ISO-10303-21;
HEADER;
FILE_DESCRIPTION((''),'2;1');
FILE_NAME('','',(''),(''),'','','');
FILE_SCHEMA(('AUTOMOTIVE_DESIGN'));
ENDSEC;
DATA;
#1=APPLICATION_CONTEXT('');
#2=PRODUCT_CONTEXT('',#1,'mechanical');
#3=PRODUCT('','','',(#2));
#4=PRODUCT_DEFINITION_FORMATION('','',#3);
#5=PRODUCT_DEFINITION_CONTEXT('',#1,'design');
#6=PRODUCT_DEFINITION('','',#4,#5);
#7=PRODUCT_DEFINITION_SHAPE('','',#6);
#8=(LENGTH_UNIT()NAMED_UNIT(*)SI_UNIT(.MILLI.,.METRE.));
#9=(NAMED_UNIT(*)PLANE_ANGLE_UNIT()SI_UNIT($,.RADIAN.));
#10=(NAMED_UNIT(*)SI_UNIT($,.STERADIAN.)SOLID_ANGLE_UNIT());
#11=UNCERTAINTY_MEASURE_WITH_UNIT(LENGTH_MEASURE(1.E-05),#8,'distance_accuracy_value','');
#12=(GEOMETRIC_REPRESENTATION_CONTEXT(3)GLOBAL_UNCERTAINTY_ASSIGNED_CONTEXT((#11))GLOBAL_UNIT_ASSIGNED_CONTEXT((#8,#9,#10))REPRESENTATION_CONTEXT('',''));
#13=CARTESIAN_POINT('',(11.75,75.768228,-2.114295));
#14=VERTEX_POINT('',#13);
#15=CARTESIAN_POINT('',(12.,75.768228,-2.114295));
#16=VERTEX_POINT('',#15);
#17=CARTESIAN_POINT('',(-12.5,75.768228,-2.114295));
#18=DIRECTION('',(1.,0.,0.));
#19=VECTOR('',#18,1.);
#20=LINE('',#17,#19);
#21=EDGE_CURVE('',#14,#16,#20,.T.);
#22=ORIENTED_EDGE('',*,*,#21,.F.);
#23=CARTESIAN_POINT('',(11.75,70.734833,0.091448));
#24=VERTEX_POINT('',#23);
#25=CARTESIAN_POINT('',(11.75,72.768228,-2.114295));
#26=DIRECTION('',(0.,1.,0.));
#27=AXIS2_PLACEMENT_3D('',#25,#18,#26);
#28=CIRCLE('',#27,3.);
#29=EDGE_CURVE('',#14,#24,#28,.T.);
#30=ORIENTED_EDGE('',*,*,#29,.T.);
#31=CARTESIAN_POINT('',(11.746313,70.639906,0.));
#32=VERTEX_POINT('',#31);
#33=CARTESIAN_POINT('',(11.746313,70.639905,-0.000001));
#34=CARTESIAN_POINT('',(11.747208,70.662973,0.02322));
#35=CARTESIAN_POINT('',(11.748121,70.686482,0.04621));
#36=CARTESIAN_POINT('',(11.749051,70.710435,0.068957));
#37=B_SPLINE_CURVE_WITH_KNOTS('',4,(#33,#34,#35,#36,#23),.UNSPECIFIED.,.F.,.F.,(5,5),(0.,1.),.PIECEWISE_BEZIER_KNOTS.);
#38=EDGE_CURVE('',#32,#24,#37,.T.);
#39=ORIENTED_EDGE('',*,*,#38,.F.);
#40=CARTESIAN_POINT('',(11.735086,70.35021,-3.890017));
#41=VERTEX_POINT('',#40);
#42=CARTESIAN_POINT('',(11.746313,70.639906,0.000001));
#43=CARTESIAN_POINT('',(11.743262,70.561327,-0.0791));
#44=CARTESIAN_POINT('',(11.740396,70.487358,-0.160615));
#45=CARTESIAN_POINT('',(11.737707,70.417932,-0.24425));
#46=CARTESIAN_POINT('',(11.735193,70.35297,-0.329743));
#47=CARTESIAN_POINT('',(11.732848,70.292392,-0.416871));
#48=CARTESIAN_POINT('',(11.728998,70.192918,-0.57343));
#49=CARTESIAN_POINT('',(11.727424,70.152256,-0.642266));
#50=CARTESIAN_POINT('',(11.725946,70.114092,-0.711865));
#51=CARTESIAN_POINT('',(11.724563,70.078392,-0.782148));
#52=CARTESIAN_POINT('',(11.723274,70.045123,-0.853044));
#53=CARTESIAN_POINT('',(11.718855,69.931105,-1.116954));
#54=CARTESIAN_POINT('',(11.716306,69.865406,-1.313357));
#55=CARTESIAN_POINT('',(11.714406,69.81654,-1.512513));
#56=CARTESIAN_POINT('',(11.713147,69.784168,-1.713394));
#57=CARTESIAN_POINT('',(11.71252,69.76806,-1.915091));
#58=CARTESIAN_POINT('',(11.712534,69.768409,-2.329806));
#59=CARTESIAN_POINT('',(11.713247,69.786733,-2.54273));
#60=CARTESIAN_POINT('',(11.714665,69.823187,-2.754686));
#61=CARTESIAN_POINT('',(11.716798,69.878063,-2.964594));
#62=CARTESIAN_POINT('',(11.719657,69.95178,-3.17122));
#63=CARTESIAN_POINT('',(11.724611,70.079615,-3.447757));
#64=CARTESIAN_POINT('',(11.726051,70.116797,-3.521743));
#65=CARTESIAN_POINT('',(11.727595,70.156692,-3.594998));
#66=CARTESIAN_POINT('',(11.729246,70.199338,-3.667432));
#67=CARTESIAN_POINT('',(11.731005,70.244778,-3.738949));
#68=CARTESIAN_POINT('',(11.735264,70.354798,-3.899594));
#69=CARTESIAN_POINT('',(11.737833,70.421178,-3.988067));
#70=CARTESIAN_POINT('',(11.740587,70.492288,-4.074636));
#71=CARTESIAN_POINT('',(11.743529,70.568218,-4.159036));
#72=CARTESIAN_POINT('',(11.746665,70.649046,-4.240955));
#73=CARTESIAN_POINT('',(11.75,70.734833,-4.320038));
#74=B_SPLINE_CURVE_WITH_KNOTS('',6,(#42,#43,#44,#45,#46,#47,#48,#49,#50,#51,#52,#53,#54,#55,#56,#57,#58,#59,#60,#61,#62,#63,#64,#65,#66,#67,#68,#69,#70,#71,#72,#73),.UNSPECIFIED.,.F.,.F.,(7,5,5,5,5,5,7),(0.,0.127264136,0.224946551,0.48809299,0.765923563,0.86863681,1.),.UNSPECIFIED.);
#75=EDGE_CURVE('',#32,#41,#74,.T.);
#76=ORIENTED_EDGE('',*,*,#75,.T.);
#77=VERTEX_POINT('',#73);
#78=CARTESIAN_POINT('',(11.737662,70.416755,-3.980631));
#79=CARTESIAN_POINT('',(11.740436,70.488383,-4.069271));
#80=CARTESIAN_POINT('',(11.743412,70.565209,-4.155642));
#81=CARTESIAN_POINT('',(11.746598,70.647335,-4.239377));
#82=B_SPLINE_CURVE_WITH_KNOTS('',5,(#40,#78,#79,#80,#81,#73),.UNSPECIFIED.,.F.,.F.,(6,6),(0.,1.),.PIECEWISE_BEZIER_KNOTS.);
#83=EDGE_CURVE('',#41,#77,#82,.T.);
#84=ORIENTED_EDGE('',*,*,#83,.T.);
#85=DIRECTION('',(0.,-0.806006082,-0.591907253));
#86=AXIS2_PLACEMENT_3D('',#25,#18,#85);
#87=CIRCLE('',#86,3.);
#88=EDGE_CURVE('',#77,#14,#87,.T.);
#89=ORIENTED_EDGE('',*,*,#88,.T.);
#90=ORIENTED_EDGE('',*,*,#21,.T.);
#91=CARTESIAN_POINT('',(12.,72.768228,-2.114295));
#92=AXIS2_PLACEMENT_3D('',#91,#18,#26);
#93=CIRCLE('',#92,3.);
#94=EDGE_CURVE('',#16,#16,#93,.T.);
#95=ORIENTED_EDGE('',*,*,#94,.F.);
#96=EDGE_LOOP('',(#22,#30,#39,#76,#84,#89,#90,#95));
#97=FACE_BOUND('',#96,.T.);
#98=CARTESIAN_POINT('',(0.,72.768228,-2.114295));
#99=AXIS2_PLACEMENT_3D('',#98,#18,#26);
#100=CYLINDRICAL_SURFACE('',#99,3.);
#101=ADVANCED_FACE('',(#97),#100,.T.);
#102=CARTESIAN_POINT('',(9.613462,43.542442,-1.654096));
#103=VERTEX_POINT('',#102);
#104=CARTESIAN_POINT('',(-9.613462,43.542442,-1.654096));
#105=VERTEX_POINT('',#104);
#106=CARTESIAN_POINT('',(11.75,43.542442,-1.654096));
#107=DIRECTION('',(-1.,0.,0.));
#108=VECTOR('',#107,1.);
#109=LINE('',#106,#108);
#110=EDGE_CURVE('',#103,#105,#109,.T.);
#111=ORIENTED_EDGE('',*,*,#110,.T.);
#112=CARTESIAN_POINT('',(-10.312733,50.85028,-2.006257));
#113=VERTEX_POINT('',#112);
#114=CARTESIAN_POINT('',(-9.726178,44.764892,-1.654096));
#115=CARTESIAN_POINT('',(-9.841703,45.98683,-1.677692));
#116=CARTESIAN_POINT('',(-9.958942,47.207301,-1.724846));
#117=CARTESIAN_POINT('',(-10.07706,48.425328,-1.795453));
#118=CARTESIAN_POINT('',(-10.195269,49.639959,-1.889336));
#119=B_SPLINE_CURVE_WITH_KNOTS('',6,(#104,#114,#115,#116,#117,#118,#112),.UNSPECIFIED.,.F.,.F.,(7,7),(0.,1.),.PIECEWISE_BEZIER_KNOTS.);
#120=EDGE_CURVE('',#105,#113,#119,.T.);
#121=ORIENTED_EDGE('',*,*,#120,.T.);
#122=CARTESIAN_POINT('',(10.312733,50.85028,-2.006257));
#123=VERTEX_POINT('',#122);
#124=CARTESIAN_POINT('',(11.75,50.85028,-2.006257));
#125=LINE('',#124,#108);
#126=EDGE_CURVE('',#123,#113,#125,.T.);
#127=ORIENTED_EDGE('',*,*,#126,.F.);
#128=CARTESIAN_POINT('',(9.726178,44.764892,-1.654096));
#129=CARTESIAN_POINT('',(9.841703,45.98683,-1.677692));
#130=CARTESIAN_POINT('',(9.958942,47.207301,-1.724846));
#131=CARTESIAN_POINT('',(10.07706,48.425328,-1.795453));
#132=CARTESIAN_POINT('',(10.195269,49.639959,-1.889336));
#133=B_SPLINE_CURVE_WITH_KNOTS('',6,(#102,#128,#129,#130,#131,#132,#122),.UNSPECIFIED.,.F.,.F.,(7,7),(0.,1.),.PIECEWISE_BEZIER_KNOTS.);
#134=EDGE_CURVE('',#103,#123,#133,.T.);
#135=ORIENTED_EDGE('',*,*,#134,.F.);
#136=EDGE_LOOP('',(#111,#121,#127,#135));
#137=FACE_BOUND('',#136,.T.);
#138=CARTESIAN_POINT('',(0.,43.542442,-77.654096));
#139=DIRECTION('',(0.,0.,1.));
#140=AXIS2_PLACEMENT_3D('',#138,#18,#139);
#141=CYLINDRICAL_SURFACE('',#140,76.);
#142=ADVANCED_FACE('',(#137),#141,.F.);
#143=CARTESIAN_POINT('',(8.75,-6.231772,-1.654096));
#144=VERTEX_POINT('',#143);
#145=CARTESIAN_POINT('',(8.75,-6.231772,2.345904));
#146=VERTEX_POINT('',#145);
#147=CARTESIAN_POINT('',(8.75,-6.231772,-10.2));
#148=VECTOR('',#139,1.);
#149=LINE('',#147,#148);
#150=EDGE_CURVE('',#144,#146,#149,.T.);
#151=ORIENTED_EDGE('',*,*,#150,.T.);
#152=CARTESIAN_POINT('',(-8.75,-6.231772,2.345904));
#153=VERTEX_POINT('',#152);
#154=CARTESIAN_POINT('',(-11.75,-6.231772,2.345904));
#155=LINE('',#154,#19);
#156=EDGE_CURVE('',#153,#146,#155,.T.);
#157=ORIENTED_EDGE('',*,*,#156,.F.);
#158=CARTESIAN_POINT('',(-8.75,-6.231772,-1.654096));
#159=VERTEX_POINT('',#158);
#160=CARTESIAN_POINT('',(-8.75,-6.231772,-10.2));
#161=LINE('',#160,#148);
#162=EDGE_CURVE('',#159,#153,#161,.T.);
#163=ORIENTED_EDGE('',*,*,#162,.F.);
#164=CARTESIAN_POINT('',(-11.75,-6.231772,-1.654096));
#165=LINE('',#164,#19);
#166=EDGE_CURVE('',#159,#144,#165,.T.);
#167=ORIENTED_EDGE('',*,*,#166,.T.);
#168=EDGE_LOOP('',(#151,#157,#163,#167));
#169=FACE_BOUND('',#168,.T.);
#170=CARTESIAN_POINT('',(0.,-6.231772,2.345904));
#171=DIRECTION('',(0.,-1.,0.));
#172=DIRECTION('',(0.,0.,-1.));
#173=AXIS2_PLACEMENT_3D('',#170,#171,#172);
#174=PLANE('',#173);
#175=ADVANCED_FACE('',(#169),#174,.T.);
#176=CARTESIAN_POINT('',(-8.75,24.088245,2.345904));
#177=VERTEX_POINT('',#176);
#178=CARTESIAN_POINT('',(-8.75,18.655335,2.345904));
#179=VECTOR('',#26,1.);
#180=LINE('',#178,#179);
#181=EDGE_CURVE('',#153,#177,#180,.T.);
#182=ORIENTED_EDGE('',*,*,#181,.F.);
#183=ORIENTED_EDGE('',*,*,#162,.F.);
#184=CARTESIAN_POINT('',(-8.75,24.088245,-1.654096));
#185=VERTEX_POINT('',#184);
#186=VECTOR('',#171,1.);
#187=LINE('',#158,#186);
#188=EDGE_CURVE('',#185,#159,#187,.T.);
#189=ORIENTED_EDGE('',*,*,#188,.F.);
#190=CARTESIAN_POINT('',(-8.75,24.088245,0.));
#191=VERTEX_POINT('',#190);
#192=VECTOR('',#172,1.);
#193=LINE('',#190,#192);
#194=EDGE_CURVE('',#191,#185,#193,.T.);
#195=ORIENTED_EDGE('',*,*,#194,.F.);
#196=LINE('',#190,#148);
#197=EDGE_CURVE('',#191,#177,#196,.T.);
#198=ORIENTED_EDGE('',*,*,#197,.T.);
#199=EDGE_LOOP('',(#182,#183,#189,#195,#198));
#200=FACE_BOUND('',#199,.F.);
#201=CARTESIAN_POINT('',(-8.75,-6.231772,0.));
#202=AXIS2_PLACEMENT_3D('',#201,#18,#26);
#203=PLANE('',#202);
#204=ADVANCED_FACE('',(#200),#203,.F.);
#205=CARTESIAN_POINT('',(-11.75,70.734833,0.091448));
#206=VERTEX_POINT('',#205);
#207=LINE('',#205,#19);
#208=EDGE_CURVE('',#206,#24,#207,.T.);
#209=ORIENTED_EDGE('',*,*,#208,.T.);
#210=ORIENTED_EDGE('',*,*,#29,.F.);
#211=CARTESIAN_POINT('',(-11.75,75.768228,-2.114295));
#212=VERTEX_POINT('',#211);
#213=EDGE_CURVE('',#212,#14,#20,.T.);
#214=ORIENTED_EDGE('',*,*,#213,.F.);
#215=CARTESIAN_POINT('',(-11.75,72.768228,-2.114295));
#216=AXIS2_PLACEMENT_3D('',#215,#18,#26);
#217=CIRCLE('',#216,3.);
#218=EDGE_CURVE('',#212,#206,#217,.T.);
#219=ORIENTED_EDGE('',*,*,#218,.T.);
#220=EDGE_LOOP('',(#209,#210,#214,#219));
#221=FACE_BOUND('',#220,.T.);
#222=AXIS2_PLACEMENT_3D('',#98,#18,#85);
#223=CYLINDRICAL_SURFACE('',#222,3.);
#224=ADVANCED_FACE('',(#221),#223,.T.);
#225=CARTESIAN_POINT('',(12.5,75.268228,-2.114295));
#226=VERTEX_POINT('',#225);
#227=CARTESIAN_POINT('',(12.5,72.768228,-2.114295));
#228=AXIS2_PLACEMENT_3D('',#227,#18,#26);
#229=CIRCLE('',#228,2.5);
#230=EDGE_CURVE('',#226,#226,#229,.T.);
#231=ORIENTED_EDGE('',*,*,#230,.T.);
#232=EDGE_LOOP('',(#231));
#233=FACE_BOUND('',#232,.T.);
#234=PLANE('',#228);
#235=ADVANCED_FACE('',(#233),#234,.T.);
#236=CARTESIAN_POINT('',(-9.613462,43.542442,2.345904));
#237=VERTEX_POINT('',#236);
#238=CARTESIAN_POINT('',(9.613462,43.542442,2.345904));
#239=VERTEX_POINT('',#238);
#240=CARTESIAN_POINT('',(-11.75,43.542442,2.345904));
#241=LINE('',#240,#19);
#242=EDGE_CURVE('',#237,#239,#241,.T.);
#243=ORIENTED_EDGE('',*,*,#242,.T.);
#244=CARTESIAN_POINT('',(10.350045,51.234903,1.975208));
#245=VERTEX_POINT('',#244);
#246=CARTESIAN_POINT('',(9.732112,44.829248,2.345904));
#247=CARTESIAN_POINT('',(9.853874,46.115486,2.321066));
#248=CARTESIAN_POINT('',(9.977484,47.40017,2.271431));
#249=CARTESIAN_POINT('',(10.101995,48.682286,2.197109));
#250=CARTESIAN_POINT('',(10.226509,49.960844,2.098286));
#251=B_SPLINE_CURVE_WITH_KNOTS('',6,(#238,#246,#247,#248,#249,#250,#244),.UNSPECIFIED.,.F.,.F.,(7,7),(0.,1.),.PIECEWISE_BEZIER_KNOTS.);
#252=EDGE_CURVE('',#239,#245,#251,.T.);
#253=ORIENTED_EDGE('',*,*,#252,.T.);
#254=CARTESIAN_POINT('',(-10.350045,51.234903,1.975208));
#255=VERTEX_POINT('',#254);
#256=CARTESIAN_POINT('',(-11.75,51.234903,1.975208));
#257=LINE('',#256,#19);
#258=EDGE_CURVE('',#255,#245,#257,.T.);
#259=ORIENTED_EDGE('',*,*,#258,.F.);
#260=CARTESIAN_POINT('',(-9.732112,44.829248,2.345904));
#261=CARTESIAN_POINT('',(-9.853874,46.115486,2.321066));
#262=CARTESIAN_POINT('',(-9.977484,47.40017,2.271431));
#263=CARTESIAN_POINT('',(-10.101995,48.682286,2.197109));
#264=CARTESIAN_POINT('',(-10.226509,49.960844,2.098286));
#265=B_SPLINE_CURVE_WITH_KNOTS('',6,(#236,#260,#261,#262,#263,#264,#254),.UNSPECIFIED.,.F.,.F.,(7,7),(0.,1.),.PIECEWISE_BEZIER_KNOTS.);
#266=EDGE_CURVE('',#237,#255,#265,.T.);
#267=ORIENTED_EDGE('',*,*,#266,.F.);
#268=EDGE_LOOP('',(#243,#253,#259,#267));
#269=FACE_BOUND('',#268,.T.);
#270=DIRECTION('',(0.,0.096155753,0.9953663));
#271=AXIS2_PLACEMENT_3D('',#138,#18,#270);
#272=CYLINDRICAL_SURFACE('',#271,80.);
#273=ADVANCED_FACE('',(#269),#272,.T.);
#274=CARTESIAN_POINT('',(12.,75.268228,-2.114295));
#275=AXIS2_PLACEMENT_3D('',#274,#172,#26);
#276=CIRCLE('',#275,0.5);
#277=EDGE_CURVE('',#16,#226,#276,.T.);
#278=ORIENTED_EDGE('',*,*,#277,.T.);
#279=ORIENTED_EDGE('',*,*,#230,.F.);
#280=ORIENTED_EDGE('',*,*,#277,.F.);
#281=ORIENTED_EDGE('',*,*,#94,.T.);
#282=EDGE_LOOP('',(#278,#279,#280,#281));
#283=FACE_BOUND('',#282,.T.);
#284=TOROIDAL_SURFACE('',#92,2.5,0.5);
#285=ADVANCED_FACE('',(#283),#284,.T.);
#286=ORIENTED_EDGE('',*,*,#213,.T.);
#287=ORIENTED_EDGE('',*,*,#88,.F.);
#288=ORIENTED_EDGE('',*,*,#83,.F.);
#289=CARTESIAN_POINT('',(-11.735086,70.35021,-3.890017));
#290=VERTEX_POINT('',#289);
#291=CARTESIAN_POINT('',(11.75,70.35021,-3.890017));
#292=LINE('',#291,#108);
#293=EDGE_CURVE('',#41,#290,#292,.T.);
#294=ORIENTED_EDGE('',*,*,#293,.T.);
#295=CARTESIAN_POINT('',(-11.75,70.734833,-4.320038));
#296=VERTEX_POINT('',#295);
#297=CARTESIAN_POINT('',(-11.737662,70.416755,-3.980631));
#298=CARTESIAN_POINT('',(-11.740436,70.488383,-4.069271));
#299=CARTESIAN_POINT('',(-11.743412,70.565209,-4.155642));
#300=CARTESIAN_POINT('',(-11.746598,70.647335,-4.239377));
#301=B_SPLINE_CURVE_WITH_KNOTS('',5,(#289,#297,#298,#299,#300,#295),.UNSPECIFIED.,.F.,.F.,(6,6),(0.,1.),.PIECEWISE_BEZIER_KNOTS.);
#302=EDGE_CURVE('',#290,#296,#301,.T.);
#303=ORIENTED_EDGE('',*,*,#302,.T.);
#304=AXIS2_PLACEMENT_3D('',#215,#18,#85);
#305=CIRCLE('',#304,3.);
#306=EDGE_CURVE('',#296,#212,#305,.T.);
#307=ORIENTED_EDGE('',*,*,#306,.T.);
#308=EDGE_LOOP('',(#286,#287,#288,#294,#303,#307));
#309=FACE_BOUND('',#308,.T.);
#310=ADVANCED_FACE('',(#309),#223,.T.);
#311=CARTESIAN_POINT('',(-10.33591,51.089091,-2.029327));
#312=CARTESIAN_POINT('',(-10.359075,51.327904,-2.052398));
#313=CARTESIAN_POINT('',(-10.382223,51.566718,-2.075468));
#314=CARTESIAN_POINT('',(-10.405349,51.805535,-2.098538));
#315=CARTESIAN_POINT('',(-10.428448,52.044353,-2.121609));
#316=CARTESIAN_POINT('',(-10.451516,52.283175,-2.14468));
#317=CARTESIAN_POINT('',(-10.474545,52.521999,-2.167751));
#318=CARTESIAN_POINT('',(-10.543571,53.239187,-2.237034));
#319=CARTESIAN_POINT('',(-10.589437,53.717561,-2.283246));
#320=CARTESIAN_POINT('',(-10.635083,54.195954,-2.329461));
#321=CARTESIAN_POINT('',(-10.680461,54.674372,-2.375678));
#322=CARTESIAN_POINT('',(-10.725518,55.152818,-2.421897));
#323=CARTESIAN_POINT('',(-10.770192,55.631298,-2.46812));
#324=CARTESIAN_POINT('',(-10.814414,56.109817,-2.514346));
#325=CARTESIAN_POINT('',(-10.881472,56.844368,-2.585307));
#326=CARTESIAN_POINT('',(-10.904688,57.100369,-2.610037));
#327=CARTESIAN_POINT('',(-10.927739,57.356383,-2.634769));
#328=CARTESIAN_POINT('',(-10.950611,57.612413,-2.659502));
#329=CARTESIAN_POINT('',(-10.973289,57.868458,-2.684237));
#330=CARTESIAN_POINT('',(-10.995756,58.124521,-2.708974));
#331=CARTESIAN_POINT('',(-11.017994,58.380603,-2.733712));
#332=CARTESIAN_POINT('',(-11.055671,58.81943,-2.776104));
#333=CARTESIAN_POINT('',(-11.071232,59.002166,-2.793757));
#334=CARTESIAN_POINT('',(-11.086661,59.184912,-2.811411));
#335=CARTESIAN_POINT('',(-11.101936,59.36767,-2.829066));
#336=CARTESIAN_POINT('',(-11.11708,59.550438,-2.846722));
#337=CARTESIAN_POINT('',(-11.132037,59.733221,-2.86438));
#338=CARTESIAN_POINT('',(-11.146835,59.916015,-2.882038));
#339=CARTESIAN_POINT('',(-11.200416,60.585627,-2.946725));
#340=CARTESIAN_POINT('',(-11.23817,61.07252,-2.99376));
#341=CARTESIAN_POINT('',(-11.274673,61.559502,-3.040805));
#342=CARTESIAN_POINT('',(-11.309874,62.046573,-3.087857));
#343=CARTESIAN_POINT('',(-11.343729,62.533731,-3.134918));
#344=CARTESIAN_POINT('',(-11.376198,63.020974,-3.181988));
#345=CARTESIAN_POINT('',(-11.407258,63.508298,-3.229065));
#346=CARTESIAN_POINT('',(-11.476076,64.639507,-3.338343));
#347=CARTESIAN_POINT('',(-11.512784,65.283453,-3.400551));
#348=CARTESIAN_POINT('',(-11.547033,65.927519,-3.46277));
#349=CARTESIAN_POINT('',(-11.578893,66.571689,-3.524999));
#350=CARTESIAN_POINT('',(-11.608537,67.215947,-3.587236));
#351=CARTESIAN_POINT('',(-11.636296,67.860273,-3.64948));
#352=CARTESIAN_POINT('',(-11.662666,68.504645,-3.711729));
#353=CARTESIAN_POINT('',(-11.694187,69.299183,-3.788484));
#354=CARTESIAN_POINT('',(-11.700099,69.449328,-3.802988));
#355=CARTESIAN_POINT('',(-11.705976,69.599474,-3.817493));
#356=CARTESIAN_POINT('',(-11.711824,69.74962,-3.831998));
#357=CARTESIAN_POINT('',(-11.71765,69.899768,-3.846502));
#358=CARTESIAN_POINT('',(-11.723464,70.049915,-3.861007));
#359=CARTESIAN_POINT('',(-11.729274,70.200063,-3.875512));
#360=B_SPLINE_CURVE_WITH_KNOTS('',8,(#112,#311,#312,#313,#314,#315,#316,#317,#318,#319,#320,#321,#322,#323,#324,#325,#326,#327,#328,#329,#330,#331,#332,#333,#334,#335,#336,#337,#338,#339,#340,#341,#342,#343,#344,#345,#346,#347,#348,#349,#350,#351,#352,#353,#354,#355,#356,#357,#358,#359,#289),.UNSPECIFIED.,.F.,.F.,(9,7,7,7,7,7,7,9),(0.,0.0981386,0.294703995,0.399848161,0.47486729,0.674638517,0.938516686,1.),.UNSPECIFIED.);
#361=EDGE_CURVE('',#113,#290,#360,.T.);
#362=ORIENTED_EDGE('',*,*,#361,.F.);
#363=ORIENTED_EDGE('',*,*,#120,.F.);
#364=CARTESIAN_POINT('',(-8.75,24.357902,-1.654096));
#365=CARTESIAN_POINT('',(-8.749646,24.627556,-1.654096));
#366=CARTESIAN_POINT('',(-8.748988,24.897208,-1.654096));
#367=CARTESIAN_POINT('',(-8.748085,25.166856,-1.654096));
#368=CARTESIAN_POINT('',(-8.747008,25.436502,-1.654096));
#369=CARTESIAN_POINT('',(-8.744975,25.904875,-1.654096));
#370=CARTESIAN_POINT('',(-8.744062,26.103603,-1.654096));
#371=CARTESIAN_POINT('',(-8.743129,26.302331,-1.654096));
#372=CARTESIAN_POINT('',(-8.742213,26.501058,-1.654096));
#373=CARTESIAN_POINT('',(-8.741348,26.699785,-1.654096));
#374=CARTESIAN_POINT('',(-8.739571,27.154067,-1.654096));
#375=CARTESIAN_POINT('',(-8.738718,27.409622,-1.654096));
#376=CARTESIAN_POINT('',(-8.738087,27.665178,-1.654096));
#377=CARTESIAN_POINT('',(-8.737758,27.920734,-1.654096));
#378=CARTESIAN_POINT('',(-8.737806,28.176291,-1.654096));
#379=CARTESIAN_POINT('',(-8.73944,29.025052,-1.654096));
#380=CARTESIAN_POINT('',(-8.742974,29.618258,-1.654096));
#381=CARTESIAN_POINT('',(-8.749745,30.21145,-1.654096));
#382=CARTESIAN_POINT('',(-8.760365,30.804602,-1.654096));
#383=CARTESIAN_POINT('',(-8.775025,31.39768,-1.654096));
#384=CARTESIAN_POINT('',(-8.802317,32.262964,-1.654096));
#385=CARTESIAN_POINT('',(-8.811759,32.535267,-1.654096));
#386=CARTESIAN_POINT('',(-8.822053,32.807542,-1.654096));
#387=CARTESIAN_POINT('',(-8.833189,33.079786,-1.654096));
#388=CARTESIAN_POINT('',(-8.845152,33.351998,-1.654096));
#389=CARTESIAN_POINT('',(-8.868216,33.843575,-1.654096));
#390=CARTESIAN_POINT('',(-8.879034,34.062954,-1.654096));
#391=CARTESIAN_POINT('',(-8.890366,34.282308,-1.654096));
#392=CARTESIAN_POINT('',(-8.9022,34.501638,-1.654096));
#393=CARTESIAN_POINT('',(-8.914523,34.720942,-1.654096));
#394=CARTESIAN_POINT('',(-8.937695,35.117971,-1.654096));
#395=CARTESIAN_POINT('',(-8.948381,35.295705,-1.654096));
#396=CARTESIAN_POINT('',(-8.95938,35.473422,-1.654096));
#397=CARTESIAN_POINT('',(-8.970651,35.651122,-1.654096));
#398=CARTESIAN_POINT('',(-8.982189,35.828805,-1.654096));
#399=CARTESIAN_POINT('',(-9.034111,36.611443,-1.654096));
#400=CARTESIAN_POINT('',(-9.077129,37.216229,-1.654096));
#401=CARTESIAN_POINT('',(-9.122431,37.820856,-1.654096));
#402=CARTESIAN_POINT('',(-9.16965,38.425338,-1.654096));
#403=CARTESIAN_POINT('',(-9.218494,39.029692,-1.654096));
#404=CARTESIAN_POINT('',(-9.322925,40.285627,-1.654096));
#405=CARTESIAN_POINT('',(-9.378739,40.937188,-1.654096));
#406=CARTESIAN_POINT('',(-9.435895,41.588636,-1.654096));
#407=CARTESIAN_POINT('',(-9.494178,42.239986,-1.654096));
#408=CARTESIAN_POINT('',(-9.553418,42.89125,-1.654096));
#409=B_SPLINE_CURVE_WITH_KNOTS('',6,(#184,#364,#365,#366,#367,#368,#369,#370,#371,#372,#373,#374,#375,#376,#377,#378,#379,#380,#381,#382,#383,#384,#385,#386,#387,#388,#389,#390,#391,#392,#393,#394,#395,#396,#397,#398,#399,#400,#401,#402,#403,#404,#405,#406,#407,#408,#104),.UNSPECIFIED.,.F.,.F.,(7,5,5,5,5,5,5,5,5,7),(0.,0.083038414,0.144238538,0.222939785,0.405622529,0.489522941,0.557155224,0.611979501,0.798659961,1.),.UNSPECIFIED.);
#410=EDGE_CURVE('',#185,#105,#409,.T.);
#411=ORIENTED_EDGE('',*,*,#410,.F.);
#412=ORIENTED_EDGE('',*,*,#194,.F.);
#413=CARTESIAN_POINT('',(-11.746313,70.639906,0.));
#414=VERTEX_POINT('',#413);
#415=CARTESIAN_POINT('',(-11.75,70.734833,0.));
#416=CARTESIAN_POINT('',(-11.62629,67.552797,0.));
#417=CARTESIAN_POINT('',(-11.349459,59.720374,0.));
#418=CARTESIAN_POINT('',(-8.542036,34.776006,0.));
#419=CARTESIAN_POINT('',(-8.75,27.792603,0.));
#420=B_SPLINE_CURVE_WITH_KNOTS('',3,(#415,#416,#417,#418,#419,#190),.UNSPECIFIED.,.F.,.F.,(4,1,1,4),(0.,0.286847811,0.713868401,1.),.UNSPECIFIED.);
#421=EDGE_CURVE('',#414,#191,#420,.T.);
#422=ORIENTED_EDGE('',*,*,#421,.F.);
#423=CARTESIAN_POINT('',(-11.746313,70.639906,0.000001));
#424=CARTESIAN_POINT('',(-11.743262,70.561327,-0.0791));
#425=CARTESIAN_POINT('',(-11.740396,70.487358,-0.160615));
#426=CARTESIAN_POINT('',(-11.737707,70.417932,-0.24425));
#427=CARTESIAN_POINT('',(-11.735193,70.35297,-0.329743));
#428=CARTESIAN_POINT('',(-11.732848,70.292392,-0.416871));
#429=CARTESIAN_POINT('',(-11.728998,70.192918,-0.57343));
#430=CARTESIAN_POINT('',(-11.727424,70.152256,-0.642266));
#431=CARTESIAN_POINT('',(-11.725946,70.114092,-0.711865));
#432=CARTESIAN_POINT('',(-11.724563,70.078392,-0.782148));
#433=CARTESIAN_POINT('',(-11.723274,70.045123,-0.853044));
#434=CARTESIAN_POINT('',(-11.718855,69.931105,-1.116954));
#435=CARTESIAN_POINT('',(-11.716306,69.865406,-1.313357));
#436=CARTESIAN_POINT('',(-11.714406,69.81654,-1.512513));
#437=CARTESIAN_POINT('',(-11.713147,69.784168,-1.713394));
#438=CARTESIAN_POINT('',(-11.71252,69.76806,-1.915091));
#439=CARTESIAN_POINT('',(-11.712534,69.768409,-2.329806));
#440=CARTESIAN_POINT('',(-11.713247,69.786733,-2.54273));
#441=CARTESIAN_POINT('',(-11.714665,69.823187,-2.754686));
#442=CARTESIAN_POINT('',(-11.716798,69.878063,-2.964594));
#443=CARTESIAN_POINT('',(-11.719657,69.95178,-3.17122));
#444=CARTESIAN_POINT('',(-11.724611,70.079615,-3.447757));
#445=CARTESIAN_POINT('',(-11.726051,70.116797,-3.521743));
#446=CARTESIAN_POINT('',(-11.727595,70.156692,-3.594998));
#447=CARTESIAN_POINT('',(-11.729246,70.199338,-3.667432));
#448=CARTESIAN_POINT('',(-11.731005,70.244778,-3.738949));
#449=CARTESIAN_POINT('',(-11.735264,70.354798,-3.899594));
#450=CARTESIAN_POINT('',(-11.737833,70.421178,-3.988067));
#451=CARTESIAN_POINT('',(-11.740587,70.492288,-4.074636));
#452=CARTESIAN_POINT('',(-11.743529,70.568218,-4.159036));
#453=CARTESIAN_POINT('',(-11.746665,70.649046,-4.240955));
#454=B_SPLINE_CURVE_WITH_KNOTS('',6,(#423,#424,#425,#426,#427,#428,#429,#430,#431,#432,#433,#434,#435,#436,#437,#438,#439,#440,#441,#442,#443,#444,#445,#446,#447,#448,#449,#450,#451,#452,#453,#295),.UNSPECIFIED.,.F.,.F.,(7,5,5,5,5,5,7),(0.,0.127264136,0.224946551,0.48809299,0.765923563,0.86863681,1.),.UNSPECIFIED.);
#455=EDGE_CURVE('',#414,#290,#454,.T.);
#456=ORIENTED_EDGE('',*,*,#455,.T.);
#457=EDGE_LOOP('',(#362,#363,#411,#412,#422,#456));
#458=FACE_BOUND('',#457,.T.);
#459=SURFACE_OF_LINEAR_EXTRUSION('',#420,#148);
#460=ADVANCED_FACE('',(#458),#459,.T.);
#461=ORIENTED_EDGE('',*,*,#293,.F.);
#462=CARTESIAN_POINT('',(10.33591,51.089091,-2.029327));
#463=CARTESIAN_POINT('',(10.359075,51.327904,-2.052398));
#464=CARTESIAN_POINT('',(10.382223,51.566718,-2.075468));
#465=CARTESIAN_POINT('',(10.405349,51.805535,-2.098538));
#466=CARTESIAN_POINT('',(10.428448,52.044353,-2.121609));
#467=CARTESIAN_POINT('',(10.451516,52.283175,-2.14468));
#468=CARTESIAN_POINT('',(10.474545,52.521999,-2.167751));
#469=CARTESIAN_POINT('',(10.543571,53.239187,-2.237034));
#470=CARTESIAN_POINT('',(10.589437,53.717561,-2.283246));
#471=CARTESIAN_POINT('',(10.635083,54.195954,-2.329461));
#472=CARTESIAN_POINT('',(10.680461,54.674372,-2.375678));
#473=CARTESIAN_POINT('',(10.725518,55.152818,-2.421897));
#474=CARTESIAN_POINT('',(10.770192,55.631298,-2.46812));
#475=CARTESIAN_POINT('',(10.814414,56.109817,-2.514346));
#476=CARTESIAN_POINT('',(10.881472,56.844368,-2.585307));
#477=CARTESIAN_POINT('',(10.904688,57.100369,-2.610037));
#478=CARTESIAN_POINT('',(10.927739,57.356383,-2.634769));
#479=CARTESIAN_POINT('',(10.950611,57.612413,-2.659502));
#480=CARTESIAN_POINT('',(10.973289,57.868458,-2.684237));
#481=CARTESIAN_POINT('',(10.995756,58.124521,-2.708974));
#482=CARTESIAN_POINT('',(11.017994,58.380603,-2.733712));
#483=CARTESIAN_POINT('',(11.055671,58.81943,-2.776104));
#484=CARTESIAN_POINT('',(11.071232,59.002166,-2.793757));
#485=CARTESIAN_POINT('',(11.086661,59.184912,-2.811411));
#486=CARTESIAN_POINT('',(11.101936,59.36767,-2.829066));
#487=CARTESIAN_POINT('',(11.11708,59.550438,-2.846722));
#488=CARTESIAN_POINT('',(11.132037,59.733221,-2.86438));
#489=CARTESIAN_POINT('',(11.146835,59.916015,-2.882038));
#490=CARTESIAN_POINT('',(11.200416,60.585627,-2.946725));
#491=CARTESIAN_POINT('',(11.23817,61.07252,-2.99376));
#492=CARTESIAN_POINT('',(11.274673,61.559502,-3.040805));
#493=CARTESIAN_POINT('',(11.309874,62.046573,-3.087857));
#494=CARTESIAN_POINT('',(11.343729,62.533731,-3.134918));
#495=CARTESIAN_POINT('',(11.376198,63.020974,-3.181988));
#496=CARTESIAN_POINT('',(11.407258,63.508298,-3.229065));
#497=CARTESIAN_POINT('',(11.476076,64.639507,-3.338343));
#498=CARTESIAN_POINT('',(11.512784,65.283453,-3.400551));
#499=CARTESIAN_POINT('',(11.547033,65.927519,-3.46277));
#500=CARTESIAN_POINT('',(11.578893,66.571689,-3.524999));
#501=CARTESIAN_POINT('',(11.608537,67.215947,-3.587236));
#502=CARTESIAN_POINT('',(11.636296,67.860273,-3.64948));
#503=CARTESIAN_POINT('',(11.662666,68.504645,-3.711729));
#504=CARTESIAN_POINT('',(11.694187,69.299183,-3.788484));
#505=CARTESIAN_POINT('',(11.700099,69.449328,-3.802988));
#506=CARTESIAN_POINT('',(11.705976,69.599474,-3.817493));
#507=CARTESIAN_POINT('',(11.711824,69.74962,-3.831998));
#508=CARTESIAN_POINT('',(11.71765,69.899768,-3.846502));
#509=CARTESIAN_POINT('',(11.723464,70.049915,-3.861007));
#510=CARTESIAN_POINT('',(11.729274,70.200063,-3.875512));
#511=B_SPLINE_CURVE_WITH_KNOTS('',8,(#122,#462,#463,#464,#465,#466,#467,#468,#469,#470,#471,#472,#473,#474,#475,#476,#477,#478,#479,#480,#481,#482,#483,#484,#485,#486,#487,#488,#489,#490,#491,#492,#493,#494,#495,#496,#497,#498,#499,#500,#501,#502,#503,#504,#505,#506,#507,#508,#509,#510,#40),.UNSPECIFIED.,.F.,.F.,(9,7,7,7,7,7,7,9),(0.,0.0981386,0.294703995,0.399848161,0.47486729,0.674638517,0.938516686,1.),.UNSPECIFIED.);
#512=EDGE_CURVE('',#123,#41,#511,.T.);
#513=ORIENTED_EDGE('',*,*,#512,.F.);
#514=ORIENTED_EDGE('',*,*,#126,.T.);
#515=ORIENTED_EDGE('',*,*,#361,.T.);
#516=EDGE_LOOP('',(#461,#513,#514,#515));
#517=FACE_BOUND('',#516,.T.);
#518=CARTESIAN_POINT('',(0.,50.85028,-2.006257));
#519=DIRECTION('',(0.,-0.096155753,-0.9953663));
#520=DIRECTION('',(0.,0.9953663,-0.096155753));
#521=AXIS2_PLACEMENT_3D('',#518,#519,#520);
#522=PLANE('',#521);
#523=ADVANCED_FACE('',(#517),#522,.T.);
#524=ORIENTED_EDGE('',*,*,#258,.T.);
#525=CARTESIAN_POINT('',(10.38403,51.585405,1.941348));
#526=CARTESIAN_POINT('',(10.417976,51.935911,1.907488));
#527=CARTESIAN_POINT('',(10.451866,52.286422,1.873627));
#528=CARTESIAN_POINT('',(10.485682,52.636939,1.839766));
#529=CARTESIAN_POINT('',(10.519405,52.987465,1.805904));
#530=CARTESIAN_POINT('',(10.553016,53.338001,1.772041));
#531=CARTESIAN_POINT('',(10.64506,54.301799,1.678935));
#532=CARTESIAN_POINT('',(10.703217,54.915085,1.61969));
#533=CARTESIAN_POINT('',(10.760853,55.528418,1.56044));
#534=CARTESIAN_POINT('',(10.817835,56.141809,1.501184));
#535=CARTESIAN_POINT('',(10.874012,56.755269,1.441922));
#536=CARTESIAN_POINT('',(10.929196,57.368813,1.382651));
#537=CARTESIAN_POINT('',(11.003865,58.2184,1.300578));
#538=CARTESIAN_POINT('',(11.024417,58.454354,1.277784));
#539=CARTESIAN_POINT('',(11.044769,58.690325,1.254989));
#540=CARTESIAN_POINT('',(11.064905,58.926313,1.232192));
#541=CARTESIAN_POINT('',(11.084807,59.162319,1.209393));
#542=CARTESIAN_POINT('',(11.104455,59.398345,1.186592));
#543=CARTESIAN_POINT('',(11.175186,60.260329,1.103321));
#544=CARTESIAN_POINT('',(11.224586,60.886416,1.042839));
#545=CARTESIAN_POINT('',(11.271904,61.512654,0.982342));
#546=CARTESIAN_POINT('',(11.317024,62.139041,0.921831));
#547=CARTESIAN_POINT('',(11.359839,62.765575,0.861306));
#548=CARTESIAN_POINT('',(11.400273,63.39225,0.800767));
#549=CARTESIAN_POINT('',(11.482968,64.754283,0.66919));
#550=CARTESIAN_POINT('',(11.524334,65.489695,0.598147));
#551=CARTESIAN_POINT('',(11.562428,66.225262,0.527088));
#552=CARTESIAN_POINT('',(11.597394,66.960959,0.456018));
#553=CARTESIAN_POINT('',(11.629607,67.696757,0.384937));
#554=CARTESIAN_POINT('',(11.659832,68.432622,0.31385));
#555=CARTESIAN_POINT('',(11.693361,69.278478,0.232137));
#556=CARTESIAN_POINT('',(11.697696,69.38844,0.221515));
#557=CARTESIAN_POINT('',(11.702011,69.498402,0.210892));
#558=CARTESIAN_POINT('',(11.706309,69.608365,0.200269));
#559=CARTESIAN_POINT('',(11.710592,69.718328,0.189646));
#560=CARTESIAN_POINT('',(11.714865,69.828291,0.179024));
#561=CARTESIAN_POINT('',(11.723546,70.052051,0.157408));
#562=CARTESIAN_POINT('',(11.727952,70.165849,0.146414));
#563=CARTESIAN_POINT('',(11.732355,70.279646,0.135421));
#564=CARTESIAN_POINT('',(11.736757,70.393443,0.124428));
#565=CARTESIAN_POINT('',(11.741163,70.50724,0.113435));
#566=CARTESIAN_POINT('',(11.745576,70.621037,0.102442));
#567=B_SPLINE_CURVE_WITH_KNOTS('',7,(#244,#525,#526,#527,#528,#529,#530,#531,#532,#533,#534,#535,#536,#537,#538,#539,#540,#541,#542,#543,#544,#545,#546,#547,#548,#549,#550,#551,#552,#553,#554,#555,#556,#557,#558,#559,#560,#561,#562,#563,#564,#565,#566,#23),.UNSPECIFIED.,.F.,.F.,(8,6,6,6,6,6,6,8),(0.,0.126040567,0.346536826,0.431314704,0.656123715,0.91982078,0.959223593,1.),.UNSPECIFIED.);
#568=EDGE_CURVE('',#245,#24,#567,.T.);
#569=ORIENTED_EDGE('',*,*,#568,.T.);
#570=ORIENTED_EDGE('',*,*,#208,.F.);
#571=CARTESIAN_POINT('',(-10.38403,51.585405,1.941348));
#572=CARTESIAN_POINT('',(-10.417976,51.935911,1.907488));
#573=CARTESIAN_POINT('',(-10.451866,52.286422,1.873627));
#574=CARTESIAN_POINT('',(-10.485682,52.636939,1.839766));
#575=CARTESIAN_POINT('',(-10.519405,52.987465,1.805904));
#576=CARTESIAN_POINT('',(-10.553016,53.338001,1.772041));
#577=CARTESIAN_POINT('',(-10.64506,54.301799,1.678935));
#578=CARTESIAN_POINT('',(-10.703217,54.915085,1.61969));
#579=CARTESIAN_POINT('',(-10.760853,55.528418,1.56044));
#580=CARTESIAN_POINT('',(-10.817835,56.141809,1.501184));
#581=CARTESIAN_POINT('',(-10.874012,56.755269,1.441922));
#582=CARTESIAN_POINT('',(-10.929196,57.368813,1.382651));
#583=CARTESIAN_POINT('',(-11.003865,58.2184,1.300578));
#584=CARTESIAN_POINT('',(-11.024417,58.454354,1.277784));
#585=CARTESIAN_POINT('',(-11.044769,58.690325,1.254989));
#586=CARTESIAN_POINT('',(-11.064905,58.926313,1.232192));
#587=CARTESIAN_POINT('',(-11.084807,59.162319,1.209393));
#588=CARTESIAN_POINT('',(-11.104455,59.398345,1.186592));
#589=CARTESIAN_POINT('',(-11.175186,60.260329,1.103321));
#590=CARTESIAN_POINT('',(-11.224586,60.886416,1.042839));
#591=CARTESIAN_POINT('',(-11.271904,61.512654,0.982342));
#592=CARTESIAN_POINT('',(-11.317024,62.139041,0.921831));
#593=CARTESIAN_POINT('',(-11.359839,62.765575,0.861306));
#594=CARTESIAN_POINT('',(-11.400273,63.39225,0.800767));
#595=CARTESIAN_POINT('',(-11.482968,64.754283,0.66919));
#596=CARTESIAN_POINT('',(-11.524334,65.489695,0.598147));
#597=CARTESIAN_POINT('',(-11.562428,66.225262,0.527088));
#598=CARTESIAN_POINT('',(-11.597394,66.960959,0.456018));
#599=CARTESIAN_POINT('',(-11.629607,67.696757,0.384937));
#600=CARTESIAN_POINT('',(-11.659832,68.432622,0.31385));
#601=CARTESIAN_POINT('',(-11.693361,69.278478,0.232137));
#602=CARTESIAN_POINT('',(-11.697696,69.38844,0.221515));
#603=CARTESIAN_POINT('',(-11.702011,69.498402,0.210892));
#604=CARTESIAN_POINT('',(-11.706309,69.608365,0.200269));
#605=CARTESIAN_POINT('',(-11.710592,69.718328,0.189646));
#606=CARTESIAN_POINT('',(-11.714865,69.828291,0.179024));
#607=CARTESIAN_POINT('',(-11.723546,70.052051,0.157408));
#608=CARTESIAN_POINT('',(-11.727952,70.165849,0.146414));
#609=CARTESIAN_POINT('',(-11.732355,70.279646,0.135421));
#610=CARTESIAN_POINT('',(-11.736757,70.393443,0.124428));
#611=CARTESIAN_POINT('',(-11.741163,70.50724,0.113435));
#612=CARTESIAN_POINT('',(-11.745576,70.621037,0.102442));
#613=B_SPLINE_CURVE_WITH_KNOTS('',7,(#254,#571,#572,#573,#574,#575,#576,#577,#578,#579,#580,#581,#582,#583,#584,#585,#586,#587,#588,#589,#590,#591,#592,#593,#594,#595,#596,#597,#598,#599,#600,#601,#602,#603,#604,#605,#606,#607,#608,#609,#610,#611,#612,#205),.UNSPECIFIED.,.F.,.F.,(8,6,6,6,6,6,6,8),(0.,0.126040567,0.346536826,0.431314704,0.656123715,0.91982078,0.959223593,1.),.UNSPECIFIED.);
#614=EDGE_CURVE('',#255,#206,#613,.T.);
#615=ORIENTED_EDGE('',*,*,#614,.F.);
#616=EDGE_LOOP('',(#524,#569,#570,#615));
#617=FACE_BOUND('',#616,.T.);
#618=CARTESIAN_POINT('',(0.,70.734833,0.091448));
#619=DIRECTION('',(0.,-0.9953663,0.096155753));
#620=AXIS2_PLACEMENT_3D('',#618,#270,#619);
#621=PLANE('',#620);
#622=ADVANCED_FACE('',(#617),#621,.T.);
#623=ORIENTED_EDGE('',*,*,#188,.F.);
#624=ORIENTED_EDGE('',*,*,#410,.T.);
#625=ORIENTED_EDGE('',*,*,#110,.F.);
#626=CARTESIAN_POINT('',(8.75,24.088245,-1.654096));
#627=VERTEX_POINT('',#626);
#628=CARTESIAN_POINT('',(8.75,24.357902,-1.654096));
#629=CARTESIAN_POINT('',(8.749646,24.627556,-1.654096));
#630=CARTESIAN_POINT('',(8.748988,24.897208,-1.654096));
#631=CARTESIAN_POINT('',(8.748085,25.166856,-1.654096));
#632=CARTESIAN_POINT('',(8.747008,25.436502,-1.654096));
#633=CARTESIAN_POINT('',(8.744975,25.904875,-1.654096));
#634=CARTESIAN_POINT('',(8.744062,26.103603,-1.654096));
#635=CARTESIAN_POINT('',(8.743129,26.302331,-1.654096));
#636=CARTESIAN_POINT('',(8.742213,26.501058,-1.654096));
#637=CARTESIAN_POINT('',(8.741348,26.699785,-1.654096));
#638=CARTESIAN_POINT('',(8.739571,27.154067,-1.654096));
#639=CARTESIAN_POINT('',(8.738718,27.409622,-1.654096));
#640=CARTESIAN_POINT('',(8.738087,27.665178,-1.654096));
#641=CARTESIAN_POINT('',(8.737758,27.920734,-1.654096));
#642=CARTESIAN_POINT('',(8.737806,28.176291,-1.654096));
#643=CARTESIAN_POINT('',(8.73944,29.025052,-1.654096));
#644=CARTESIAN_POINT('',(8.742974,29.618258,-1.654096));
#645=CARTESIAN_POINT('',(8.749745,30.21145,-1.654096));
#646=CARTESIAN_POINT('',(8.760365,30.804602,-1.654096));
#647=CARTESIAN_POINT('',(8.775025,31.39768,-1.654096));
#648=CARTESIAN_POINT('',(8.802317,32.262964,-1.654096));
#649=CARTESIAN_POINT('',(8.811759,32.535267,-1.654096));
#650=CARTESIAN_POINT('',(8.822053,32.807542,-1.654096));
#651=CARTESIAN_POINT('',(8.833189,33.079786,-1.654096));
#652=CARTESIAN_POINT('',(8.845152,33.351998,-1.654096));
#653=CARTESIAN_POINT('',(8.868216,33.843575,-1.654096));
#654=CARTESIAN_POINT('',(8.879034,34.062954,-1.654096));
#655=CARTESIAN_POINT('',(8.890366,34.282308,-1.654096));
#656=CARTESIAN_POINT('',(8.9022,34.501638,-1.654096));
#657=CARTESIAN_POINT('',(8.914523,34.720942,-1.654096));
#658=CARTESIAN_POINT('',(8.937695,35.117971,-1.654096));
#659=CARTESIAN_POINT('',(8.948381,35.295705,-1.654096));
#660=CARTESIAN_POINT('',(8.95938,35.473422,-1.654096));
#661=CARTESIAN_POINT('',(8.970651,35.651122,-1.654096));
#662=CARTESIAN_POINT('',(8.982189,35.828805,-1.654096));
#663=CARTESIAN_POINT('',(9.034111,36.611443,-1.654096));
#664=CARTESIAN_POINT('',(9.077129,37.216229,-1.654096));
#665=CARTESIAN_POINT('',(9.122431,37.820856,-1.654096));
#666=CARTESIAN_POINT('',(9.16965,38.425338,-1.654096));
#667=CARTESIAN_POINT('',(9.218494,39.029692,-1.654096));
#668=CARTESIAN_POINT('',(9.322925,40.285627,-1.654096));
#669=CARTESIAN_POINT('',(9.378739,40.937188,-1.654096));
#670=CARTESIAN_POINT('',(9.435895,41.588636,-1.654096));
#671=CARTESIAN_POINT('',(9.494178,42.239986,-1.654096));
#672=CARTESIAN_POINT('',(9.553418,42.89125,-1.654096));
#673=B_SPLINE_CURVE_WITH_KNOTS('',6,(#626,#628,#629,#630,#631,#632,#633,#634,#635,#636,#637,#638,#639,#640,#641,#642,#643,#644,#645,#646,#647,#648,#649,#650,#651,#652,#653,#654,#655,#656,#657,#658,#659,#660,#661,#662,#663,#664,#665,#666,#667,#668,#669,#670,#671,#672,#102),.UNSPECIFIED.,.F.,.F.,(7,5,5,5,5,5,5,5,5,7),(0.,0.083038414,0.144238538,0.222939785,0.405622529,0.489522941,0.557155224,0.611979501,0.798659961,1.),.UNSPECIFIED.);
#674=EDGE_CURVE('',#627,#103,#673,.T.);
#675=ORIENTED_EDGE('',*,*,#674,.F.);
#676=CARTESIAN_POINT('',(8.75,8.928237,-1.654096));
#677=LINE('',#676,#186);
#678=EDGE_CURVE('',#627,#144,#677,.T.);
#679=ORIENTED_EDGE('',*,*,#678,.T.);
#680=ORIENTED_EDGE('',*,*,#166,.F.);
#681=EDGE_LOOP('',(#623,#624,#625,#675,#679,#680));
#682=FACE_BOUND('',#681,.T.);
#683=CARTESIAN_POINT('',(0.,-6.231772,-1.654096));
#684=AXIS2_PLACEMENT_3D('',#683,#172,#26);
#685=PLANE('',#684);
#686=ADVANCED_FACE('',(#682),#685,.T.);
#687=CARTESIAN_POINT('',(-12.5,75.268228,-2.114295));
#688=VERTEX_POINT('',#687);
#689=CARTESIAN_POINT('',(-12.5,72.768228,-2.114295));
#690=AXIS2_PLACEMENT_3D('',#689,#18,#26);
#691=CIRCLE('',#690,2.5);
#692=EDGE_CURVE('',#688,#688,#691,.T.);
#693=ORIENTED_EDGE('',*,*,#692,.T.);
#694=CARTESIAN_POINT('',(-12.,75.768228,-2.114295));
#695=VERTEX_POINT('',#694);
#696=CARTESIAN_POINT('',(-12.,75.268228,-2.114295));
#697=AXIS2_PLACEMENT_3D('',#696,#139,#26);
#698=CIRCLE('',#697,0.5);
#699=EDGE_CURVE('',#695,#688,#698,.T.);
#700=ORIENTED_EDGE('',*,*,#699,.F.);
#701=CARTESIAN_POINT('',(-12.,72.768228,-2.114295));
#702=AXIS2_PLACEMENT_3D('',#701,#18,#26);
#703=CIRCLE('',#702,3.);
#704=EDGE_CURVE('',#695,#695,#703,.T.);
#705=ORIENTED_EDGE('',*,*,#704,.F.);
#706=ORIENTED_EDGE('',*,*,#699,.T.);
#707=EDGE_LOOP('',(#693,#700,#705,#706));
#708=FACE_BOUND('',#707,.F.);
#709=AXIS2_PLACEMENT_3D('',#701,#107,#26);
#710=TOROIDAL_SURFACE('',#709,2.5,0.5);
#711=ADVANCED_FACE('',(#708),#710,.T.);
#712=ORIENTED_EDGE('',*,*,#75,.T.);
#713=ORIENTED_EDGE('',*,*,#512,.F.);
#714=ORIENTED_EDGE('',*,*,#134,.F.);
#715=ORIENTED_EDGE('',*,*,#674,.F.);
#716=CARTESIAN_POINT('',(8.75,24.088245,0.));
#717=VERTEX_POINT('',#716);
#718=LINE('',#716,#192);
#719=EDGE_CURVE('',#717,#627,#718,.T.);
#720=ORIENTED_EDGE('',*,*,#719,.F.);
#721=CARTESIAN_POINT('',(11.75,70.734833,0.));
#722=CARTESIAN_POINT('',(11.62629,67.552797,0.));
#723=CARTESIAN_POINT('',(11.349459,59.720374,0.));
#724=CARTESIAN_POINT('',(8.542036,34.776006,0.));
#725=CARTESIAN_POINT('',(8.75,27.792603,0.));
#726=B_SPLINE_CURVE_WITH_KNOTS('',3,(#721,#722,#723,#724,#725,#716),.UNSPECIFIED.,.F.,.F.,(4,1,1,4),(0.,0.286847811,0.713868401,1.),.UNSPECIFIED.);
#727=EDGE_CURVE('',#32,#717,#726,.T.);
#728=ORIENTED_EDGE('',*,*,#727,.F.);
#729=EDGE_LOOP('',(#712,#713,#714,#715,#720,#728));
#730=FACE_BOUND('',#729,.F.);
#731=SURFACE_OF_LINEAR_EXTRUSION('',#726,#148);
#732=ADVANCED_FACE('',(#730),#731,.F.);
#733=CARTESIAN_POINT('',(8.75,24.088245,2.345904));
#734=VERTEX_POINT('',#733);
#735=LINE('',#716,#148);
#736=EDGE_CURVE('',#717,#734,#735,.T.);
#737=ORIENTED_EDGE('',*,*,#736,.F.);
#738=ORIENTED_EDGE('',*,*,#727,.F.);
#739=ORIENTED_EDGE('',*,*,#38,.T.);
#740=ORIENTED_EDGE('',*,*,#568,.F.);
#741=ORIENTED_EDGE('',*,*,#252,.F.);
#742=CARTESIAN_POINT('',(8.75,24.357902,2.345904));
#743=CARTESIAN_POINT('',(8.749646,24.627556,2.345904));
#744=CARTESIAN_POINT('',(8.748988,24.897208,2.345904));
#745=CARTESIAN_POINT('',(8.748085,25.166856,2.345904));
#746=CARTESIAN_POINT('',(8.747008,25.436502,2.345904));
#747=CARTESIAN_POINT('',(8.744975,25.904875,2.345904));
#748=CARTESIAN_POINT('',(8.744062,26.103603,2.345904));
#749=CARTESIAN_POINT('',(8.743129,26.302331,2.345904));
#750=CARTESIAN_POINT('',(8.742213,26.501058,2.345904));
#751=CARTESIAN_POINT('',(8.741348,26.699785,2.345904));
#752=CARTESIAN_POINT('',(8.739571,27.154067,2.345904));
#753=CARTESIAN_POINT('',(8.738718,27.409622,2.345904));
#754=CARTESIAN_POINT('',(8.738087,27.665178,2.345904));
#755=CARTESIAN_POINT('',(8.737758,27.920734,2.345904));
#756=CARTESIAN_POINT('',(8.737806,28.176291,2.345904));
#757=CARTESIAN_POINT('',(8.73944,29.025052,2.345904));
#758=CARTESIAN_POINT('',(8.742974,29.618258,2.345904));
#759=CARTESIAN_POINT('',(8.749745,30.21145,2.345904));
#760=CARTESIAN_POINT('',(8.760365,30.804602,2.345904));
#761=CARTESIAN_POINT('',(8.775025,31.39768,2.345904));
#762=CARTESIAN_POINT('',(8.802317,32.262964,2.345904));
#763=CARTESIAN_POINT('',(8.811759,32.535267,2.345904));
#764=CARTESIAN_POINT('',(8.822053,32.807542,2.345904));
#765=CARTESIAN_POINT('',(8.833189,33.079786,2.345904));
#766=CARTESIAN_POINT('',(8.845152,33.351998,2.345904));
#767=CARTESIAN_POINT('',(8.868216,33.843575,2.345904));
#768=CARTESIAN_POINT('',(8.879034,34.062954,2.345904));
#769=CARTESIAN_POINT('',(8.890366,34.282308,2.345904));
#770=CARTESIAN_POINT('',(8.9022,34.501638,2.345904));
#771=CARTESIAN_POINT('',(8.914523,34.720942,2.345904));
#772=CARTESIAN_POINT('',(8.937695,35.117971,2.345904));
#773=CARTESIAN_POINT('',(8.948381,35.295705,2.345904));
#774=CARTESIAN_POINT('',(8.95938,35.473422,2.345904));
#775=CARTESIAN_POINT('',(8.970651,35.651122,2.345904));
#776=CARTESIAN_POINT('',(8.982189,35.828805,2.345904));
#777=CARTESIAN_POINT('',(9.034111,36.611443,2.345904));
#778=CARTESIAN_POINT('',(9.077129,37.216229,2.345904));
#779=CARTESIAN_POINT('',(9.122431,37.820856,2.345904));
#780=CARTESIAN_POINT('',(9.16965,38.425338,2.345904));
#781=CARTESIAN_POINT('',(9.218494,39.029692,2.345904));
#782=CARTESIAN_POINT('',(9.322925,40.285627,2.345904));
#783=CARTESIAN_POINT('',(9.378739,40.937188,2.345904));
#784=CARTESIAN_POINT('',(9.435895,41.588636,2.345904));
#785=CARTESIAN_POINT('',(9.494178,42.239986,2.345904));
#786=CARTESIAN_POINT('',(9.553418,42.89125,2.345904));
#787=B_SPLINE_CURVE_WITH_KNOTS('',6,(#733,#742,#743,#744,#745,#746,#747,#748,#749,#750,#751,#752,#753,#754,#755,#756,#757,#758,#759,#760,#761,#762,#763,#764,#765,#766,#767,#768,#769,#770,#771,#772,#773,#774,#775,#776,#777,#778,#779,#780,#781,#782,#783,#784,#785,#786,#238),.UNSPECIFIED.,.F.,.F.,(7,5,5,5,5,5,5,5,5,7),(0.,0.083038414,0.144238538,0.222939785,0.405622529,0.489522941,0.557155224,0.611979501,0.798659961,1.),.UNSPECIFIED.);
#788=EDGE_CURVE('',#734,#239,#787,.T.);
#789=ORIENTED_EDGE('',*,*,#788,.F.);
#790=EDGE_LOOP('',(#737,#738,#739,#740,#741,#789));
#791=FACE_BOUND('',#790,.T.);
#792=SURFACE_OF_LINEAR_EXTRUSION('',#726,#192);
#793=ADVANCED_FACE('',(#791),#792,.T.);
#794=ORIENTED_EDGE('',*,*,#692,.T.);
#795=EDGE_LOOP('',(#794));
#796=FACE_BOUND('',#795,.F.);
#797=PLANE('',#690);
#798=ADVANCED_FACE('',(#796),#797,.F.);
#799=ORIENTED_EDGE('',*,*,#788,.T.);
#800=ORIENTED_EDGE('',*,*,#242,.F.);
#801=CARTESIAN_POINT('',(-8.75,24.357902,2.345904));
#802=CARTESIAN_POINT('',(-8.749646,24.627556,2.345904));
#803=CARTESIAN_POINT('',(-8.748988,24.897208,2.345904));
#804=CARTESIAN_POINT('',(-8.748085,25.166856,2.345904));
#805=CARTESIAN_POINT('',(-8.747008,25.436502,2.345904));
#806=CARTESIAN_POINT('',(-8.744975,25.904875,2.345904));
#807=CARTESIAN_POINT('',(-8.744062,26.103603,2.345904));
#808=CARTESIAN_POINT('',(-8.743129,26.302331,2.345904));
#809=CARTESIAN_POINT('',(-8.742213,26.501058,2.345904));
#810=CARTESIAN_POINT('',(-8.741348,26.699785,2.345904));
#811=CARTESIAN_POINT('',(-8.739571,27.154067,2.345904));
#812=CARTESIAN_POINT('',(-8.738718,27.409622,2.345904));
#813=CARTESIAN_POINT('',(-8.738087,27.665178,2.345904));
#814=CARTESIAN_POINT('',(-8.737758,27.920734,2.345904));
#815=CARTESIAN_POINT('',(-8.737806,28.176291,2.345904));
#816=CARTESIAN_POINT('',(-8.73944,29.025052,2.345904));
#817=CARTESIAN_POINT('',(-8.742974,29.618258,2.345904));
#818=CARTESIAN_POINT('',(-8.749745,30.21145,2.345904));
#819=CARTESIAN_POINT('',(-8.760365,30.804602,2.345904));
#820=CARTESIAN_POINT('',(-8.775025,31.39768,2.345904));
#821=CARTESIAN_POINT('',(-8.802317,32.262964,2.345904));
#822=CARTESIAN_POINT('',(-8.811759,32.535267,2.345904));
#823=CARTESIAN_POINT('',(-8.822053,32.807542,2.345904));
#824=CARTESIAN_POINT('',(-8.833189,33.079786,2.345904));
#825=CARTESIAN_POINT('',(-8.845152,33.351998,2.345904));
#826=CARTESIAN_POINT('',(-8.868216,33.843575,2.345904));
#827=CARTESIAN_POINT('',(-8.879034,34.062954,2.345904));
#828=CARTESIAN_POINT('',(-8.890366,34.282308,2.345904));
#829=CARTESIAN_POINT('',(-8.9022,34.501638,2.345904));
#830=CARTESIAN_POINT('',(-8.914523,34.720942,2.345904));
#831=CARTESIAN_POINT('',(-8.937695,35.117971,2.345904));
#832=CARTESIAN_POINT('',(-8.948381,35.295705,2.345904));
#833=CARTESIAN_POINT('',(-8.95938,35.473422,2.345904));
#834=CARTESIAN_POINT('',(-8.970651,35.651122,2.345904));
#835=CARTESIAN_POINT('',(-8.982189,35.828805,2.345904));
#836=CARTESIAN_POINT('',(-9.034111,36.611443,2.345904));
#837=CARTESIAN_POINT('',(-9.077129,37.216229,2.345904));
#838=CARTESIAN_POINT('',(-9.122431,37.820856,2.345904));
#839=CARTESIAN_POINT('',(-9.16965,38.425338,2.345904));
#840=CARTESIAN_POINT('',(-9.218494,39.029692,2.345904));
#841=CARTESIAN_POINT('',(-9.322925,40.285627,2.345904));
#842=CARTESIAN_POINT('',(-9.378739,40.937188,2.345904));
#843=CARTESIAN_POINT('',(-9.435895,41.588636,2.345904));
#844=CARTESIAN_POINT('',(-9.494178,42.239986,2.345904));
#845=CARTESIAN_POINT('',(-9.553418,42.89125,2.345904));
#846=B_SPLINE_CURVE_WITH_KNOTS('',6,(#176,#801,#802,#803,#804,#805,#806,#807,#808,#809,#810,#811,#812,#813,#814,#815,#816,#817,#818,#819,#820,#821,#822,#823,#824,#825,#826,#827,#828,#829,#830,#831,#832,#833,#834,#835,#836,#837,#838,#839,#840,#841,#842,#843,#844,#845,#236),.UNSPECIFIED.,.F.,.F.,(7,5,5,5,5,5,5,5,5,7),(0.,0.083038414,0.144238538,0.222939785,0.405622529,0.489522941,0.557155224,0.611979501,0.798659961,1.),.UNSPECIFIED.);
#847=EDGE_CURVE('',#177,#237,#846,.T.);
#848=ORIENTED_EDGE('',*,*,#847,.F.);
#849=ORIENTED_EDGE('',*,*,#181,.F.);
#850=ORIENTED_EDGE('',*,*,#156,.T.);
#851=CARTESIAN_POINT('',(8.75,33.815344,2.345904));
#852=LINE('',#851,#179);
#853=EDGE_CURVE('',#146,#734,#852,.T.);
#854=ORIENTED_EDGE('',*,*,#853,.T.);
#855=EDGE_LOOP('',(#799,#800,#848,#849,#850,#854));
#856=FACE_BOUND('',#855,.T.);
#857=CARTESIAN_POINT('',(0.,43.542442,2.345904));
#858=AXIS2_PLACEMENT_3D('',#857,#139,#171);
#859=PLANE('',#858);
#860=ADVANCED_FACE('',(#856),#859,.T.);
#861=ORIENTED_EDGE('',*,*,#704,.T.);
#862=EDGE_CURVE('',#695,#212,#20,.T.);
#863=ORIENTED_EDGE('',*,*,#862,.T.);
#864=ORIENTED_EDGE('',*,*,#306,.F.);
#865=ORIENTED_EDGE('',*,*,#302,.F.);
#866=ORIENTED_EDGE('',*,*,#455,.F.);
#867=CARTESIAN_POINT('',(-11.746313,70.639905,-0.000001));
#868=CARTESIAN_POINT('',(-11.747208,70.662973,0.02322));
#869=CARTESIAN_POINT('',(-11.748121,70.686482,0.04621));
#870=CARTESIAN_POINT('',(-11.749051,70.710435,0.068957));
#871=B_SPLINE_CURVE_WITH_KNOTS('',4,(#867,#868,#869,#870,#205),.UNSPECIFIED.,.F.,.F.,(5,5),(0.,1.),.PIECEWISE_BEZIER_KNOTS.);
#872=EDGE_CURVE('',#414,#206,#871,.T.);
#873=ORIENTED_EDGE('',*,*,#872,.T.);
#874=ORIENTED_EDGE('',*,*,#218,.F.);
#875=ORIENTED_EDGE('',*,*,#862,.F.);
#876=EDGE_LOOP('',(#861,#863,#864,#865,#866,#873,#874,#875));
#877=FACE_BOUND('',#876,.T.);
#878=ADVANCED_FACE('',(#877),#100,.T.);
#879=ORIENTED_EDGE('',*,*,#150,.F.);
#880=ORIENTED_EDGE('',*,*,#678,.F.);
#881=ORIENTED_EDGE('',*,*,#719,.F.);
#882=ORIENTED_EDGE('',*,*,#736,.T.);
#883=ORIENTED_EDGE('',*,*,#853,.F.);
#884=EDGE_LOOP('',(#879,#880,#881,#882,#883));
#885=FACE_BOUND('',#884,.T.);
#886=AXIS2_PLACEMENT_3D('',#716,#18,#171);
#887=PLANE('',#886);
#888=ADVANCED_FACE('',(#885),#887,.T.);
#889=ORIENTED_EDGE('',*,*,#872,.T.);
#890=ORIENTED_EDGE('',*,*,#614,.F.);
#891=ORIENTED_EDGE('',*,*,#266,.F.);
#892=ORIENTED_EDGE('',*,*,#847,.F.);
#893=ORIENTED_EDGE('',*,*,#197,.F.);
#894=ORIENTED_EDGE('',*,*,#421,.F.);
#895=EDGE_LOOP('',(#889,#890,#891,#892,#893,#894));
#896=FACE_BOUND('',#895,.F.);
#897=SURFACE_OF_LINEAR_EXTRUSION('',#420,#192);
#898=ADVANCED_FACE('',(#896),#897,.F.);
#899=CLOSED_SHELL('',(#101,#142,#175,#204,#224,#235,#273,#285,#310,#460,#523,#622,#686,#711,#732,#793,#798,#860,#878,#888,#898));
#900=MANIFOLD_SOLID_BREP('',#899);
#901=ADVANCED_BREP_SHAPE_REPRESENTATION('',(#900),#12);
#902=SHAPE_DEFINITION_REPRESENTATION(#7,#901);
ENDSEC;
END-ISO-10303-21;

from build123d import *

# Parameters (mm, degrees)
F1_DEPTH = 11.75
F3_DEPTH = 10.2
F4_R     = 3
F5_DEPTH = 12.5
F6_R     = 0.5


with BuildPart() as f1:
    # F0 (on Right) → F1 (new body, symmetric)
    with BuildSketch(Plane.YZ):
        with BuildLine():
            ThreePointArc((70.3502100474, -3.8900166392), (73.7025583371, -4.9650890437), (75.7682282921, -2.1142948795))
            ThreePointArc((75.7682282921, -2.1142948795), (73.9723491924, 0.6334483504), (70.7348330539, 0.0914484884))
            ThreePointArc((70.7348330539, 0.0914484884), (69.7821293922, -1.8258276194), (70.3502100474, -3.8900166392))
        make_face()
        with BuildLine():
            ThreePointArc((70.3502100474, -3.8900166392), (69.7821293922, -1.8258276194), (70.7348330539, 0.0914484884))
            Line((70.7348330539, 0.0914484884), (51.2349025363, 1.9752077734))
            ThreePointArc((51.2349025363, 1.9752077734), (47.3931357281, 2.2531760356), (43.5424422673, 2.3459037766))
            Line((43.5424422673, 2.3459037766), (-6.2317717079, 2.3459037766))
            Line((-6.2317717079, 2.3459037766), (-6.2317717079, -1.6540961509))
            Line((-6.2317717079, -1.6540961509), (43.5424422673, -1.6540961509))
            ThreePointArc((43.5424422673, -1.6540961509), (47.2006010586, -1.742187505), (50.8502795298, -2.0062573543))
            Line((50.8502795298, -2.0062573543), (70.3502100474, -3.8900166392))
        make_face()
    extrude(amount=F1_DEPTH, both=True)

    # F2 (on Top) → F3 (cut, symmetric)
    with BuildSketch(Plane.XY):
        with BuildLine():
            Line((8.75, 24.0882448852), (8.75, -6.2317717079))
            Line((8.75, -6.2317717079), (11.75, -6.2317717079))
            Line((11.75, -6.2317717079), (11.75, 70.7348330539))
            add(Edge.make_bspline(
                [(11.75, 70.7348330539), (11.6262901574, 67.5527974963), (11.3494589509, 59.7203740039), (8.5420361296, 34.7760059385), (8.75, 27.7926027775), (8.75, 24.0882448852)],
                knots=[0, 0, 0, 0, 0.2868478111, 0.7138684007, 1, 1, 1, 1], degree=3))
        make_face()
        with BuildLine():
            Line((-11.75, -6.2317717079), (-8.75, -6.2317717079))
            Line((-8.75, -6.2317717079), (-8.75, 24.0882448852))
            add(Edge.make_bspline(
                [(-11.75, 70.7348330539), (-11.6262901574, 67.5527974963), (-11.3494589509, 59.7203740039), (-8.5420361296, 34.7760059385), (-8.75, 27.7926027775), (-8.75, 24.0882448852)],
                knots=[0, 0, 0, 0, 0.2868478111, 0.7138684007, 1, 1, 1, 1], degree=3))
            Line((-11.75, 70.7348330539), (-11.75, -6.2317717079))
        make_face()
    extrude(amount=F3_DEPTH, both=True, mode=Mode.SUBTRACT)

    # F4 (on Right) → F5 (join, symmetric)
    with BuildSketch(Plane.YZ):
        with Locations((72.7682282921, -2.1142948795)):
            Circle(F4_R)
    extrude(amount=F5_DEPTH, both=True)

    # F6
    f6_edges = [f1.edges().sort_by_distance(p)[0] for p in [
        (12.5, 69.768228, -2.114295),
        (-12.5, 69.768228, -2.114295),
    ]]
    fillet(f6_edges, radius=F6_R)


solid = f1.part
